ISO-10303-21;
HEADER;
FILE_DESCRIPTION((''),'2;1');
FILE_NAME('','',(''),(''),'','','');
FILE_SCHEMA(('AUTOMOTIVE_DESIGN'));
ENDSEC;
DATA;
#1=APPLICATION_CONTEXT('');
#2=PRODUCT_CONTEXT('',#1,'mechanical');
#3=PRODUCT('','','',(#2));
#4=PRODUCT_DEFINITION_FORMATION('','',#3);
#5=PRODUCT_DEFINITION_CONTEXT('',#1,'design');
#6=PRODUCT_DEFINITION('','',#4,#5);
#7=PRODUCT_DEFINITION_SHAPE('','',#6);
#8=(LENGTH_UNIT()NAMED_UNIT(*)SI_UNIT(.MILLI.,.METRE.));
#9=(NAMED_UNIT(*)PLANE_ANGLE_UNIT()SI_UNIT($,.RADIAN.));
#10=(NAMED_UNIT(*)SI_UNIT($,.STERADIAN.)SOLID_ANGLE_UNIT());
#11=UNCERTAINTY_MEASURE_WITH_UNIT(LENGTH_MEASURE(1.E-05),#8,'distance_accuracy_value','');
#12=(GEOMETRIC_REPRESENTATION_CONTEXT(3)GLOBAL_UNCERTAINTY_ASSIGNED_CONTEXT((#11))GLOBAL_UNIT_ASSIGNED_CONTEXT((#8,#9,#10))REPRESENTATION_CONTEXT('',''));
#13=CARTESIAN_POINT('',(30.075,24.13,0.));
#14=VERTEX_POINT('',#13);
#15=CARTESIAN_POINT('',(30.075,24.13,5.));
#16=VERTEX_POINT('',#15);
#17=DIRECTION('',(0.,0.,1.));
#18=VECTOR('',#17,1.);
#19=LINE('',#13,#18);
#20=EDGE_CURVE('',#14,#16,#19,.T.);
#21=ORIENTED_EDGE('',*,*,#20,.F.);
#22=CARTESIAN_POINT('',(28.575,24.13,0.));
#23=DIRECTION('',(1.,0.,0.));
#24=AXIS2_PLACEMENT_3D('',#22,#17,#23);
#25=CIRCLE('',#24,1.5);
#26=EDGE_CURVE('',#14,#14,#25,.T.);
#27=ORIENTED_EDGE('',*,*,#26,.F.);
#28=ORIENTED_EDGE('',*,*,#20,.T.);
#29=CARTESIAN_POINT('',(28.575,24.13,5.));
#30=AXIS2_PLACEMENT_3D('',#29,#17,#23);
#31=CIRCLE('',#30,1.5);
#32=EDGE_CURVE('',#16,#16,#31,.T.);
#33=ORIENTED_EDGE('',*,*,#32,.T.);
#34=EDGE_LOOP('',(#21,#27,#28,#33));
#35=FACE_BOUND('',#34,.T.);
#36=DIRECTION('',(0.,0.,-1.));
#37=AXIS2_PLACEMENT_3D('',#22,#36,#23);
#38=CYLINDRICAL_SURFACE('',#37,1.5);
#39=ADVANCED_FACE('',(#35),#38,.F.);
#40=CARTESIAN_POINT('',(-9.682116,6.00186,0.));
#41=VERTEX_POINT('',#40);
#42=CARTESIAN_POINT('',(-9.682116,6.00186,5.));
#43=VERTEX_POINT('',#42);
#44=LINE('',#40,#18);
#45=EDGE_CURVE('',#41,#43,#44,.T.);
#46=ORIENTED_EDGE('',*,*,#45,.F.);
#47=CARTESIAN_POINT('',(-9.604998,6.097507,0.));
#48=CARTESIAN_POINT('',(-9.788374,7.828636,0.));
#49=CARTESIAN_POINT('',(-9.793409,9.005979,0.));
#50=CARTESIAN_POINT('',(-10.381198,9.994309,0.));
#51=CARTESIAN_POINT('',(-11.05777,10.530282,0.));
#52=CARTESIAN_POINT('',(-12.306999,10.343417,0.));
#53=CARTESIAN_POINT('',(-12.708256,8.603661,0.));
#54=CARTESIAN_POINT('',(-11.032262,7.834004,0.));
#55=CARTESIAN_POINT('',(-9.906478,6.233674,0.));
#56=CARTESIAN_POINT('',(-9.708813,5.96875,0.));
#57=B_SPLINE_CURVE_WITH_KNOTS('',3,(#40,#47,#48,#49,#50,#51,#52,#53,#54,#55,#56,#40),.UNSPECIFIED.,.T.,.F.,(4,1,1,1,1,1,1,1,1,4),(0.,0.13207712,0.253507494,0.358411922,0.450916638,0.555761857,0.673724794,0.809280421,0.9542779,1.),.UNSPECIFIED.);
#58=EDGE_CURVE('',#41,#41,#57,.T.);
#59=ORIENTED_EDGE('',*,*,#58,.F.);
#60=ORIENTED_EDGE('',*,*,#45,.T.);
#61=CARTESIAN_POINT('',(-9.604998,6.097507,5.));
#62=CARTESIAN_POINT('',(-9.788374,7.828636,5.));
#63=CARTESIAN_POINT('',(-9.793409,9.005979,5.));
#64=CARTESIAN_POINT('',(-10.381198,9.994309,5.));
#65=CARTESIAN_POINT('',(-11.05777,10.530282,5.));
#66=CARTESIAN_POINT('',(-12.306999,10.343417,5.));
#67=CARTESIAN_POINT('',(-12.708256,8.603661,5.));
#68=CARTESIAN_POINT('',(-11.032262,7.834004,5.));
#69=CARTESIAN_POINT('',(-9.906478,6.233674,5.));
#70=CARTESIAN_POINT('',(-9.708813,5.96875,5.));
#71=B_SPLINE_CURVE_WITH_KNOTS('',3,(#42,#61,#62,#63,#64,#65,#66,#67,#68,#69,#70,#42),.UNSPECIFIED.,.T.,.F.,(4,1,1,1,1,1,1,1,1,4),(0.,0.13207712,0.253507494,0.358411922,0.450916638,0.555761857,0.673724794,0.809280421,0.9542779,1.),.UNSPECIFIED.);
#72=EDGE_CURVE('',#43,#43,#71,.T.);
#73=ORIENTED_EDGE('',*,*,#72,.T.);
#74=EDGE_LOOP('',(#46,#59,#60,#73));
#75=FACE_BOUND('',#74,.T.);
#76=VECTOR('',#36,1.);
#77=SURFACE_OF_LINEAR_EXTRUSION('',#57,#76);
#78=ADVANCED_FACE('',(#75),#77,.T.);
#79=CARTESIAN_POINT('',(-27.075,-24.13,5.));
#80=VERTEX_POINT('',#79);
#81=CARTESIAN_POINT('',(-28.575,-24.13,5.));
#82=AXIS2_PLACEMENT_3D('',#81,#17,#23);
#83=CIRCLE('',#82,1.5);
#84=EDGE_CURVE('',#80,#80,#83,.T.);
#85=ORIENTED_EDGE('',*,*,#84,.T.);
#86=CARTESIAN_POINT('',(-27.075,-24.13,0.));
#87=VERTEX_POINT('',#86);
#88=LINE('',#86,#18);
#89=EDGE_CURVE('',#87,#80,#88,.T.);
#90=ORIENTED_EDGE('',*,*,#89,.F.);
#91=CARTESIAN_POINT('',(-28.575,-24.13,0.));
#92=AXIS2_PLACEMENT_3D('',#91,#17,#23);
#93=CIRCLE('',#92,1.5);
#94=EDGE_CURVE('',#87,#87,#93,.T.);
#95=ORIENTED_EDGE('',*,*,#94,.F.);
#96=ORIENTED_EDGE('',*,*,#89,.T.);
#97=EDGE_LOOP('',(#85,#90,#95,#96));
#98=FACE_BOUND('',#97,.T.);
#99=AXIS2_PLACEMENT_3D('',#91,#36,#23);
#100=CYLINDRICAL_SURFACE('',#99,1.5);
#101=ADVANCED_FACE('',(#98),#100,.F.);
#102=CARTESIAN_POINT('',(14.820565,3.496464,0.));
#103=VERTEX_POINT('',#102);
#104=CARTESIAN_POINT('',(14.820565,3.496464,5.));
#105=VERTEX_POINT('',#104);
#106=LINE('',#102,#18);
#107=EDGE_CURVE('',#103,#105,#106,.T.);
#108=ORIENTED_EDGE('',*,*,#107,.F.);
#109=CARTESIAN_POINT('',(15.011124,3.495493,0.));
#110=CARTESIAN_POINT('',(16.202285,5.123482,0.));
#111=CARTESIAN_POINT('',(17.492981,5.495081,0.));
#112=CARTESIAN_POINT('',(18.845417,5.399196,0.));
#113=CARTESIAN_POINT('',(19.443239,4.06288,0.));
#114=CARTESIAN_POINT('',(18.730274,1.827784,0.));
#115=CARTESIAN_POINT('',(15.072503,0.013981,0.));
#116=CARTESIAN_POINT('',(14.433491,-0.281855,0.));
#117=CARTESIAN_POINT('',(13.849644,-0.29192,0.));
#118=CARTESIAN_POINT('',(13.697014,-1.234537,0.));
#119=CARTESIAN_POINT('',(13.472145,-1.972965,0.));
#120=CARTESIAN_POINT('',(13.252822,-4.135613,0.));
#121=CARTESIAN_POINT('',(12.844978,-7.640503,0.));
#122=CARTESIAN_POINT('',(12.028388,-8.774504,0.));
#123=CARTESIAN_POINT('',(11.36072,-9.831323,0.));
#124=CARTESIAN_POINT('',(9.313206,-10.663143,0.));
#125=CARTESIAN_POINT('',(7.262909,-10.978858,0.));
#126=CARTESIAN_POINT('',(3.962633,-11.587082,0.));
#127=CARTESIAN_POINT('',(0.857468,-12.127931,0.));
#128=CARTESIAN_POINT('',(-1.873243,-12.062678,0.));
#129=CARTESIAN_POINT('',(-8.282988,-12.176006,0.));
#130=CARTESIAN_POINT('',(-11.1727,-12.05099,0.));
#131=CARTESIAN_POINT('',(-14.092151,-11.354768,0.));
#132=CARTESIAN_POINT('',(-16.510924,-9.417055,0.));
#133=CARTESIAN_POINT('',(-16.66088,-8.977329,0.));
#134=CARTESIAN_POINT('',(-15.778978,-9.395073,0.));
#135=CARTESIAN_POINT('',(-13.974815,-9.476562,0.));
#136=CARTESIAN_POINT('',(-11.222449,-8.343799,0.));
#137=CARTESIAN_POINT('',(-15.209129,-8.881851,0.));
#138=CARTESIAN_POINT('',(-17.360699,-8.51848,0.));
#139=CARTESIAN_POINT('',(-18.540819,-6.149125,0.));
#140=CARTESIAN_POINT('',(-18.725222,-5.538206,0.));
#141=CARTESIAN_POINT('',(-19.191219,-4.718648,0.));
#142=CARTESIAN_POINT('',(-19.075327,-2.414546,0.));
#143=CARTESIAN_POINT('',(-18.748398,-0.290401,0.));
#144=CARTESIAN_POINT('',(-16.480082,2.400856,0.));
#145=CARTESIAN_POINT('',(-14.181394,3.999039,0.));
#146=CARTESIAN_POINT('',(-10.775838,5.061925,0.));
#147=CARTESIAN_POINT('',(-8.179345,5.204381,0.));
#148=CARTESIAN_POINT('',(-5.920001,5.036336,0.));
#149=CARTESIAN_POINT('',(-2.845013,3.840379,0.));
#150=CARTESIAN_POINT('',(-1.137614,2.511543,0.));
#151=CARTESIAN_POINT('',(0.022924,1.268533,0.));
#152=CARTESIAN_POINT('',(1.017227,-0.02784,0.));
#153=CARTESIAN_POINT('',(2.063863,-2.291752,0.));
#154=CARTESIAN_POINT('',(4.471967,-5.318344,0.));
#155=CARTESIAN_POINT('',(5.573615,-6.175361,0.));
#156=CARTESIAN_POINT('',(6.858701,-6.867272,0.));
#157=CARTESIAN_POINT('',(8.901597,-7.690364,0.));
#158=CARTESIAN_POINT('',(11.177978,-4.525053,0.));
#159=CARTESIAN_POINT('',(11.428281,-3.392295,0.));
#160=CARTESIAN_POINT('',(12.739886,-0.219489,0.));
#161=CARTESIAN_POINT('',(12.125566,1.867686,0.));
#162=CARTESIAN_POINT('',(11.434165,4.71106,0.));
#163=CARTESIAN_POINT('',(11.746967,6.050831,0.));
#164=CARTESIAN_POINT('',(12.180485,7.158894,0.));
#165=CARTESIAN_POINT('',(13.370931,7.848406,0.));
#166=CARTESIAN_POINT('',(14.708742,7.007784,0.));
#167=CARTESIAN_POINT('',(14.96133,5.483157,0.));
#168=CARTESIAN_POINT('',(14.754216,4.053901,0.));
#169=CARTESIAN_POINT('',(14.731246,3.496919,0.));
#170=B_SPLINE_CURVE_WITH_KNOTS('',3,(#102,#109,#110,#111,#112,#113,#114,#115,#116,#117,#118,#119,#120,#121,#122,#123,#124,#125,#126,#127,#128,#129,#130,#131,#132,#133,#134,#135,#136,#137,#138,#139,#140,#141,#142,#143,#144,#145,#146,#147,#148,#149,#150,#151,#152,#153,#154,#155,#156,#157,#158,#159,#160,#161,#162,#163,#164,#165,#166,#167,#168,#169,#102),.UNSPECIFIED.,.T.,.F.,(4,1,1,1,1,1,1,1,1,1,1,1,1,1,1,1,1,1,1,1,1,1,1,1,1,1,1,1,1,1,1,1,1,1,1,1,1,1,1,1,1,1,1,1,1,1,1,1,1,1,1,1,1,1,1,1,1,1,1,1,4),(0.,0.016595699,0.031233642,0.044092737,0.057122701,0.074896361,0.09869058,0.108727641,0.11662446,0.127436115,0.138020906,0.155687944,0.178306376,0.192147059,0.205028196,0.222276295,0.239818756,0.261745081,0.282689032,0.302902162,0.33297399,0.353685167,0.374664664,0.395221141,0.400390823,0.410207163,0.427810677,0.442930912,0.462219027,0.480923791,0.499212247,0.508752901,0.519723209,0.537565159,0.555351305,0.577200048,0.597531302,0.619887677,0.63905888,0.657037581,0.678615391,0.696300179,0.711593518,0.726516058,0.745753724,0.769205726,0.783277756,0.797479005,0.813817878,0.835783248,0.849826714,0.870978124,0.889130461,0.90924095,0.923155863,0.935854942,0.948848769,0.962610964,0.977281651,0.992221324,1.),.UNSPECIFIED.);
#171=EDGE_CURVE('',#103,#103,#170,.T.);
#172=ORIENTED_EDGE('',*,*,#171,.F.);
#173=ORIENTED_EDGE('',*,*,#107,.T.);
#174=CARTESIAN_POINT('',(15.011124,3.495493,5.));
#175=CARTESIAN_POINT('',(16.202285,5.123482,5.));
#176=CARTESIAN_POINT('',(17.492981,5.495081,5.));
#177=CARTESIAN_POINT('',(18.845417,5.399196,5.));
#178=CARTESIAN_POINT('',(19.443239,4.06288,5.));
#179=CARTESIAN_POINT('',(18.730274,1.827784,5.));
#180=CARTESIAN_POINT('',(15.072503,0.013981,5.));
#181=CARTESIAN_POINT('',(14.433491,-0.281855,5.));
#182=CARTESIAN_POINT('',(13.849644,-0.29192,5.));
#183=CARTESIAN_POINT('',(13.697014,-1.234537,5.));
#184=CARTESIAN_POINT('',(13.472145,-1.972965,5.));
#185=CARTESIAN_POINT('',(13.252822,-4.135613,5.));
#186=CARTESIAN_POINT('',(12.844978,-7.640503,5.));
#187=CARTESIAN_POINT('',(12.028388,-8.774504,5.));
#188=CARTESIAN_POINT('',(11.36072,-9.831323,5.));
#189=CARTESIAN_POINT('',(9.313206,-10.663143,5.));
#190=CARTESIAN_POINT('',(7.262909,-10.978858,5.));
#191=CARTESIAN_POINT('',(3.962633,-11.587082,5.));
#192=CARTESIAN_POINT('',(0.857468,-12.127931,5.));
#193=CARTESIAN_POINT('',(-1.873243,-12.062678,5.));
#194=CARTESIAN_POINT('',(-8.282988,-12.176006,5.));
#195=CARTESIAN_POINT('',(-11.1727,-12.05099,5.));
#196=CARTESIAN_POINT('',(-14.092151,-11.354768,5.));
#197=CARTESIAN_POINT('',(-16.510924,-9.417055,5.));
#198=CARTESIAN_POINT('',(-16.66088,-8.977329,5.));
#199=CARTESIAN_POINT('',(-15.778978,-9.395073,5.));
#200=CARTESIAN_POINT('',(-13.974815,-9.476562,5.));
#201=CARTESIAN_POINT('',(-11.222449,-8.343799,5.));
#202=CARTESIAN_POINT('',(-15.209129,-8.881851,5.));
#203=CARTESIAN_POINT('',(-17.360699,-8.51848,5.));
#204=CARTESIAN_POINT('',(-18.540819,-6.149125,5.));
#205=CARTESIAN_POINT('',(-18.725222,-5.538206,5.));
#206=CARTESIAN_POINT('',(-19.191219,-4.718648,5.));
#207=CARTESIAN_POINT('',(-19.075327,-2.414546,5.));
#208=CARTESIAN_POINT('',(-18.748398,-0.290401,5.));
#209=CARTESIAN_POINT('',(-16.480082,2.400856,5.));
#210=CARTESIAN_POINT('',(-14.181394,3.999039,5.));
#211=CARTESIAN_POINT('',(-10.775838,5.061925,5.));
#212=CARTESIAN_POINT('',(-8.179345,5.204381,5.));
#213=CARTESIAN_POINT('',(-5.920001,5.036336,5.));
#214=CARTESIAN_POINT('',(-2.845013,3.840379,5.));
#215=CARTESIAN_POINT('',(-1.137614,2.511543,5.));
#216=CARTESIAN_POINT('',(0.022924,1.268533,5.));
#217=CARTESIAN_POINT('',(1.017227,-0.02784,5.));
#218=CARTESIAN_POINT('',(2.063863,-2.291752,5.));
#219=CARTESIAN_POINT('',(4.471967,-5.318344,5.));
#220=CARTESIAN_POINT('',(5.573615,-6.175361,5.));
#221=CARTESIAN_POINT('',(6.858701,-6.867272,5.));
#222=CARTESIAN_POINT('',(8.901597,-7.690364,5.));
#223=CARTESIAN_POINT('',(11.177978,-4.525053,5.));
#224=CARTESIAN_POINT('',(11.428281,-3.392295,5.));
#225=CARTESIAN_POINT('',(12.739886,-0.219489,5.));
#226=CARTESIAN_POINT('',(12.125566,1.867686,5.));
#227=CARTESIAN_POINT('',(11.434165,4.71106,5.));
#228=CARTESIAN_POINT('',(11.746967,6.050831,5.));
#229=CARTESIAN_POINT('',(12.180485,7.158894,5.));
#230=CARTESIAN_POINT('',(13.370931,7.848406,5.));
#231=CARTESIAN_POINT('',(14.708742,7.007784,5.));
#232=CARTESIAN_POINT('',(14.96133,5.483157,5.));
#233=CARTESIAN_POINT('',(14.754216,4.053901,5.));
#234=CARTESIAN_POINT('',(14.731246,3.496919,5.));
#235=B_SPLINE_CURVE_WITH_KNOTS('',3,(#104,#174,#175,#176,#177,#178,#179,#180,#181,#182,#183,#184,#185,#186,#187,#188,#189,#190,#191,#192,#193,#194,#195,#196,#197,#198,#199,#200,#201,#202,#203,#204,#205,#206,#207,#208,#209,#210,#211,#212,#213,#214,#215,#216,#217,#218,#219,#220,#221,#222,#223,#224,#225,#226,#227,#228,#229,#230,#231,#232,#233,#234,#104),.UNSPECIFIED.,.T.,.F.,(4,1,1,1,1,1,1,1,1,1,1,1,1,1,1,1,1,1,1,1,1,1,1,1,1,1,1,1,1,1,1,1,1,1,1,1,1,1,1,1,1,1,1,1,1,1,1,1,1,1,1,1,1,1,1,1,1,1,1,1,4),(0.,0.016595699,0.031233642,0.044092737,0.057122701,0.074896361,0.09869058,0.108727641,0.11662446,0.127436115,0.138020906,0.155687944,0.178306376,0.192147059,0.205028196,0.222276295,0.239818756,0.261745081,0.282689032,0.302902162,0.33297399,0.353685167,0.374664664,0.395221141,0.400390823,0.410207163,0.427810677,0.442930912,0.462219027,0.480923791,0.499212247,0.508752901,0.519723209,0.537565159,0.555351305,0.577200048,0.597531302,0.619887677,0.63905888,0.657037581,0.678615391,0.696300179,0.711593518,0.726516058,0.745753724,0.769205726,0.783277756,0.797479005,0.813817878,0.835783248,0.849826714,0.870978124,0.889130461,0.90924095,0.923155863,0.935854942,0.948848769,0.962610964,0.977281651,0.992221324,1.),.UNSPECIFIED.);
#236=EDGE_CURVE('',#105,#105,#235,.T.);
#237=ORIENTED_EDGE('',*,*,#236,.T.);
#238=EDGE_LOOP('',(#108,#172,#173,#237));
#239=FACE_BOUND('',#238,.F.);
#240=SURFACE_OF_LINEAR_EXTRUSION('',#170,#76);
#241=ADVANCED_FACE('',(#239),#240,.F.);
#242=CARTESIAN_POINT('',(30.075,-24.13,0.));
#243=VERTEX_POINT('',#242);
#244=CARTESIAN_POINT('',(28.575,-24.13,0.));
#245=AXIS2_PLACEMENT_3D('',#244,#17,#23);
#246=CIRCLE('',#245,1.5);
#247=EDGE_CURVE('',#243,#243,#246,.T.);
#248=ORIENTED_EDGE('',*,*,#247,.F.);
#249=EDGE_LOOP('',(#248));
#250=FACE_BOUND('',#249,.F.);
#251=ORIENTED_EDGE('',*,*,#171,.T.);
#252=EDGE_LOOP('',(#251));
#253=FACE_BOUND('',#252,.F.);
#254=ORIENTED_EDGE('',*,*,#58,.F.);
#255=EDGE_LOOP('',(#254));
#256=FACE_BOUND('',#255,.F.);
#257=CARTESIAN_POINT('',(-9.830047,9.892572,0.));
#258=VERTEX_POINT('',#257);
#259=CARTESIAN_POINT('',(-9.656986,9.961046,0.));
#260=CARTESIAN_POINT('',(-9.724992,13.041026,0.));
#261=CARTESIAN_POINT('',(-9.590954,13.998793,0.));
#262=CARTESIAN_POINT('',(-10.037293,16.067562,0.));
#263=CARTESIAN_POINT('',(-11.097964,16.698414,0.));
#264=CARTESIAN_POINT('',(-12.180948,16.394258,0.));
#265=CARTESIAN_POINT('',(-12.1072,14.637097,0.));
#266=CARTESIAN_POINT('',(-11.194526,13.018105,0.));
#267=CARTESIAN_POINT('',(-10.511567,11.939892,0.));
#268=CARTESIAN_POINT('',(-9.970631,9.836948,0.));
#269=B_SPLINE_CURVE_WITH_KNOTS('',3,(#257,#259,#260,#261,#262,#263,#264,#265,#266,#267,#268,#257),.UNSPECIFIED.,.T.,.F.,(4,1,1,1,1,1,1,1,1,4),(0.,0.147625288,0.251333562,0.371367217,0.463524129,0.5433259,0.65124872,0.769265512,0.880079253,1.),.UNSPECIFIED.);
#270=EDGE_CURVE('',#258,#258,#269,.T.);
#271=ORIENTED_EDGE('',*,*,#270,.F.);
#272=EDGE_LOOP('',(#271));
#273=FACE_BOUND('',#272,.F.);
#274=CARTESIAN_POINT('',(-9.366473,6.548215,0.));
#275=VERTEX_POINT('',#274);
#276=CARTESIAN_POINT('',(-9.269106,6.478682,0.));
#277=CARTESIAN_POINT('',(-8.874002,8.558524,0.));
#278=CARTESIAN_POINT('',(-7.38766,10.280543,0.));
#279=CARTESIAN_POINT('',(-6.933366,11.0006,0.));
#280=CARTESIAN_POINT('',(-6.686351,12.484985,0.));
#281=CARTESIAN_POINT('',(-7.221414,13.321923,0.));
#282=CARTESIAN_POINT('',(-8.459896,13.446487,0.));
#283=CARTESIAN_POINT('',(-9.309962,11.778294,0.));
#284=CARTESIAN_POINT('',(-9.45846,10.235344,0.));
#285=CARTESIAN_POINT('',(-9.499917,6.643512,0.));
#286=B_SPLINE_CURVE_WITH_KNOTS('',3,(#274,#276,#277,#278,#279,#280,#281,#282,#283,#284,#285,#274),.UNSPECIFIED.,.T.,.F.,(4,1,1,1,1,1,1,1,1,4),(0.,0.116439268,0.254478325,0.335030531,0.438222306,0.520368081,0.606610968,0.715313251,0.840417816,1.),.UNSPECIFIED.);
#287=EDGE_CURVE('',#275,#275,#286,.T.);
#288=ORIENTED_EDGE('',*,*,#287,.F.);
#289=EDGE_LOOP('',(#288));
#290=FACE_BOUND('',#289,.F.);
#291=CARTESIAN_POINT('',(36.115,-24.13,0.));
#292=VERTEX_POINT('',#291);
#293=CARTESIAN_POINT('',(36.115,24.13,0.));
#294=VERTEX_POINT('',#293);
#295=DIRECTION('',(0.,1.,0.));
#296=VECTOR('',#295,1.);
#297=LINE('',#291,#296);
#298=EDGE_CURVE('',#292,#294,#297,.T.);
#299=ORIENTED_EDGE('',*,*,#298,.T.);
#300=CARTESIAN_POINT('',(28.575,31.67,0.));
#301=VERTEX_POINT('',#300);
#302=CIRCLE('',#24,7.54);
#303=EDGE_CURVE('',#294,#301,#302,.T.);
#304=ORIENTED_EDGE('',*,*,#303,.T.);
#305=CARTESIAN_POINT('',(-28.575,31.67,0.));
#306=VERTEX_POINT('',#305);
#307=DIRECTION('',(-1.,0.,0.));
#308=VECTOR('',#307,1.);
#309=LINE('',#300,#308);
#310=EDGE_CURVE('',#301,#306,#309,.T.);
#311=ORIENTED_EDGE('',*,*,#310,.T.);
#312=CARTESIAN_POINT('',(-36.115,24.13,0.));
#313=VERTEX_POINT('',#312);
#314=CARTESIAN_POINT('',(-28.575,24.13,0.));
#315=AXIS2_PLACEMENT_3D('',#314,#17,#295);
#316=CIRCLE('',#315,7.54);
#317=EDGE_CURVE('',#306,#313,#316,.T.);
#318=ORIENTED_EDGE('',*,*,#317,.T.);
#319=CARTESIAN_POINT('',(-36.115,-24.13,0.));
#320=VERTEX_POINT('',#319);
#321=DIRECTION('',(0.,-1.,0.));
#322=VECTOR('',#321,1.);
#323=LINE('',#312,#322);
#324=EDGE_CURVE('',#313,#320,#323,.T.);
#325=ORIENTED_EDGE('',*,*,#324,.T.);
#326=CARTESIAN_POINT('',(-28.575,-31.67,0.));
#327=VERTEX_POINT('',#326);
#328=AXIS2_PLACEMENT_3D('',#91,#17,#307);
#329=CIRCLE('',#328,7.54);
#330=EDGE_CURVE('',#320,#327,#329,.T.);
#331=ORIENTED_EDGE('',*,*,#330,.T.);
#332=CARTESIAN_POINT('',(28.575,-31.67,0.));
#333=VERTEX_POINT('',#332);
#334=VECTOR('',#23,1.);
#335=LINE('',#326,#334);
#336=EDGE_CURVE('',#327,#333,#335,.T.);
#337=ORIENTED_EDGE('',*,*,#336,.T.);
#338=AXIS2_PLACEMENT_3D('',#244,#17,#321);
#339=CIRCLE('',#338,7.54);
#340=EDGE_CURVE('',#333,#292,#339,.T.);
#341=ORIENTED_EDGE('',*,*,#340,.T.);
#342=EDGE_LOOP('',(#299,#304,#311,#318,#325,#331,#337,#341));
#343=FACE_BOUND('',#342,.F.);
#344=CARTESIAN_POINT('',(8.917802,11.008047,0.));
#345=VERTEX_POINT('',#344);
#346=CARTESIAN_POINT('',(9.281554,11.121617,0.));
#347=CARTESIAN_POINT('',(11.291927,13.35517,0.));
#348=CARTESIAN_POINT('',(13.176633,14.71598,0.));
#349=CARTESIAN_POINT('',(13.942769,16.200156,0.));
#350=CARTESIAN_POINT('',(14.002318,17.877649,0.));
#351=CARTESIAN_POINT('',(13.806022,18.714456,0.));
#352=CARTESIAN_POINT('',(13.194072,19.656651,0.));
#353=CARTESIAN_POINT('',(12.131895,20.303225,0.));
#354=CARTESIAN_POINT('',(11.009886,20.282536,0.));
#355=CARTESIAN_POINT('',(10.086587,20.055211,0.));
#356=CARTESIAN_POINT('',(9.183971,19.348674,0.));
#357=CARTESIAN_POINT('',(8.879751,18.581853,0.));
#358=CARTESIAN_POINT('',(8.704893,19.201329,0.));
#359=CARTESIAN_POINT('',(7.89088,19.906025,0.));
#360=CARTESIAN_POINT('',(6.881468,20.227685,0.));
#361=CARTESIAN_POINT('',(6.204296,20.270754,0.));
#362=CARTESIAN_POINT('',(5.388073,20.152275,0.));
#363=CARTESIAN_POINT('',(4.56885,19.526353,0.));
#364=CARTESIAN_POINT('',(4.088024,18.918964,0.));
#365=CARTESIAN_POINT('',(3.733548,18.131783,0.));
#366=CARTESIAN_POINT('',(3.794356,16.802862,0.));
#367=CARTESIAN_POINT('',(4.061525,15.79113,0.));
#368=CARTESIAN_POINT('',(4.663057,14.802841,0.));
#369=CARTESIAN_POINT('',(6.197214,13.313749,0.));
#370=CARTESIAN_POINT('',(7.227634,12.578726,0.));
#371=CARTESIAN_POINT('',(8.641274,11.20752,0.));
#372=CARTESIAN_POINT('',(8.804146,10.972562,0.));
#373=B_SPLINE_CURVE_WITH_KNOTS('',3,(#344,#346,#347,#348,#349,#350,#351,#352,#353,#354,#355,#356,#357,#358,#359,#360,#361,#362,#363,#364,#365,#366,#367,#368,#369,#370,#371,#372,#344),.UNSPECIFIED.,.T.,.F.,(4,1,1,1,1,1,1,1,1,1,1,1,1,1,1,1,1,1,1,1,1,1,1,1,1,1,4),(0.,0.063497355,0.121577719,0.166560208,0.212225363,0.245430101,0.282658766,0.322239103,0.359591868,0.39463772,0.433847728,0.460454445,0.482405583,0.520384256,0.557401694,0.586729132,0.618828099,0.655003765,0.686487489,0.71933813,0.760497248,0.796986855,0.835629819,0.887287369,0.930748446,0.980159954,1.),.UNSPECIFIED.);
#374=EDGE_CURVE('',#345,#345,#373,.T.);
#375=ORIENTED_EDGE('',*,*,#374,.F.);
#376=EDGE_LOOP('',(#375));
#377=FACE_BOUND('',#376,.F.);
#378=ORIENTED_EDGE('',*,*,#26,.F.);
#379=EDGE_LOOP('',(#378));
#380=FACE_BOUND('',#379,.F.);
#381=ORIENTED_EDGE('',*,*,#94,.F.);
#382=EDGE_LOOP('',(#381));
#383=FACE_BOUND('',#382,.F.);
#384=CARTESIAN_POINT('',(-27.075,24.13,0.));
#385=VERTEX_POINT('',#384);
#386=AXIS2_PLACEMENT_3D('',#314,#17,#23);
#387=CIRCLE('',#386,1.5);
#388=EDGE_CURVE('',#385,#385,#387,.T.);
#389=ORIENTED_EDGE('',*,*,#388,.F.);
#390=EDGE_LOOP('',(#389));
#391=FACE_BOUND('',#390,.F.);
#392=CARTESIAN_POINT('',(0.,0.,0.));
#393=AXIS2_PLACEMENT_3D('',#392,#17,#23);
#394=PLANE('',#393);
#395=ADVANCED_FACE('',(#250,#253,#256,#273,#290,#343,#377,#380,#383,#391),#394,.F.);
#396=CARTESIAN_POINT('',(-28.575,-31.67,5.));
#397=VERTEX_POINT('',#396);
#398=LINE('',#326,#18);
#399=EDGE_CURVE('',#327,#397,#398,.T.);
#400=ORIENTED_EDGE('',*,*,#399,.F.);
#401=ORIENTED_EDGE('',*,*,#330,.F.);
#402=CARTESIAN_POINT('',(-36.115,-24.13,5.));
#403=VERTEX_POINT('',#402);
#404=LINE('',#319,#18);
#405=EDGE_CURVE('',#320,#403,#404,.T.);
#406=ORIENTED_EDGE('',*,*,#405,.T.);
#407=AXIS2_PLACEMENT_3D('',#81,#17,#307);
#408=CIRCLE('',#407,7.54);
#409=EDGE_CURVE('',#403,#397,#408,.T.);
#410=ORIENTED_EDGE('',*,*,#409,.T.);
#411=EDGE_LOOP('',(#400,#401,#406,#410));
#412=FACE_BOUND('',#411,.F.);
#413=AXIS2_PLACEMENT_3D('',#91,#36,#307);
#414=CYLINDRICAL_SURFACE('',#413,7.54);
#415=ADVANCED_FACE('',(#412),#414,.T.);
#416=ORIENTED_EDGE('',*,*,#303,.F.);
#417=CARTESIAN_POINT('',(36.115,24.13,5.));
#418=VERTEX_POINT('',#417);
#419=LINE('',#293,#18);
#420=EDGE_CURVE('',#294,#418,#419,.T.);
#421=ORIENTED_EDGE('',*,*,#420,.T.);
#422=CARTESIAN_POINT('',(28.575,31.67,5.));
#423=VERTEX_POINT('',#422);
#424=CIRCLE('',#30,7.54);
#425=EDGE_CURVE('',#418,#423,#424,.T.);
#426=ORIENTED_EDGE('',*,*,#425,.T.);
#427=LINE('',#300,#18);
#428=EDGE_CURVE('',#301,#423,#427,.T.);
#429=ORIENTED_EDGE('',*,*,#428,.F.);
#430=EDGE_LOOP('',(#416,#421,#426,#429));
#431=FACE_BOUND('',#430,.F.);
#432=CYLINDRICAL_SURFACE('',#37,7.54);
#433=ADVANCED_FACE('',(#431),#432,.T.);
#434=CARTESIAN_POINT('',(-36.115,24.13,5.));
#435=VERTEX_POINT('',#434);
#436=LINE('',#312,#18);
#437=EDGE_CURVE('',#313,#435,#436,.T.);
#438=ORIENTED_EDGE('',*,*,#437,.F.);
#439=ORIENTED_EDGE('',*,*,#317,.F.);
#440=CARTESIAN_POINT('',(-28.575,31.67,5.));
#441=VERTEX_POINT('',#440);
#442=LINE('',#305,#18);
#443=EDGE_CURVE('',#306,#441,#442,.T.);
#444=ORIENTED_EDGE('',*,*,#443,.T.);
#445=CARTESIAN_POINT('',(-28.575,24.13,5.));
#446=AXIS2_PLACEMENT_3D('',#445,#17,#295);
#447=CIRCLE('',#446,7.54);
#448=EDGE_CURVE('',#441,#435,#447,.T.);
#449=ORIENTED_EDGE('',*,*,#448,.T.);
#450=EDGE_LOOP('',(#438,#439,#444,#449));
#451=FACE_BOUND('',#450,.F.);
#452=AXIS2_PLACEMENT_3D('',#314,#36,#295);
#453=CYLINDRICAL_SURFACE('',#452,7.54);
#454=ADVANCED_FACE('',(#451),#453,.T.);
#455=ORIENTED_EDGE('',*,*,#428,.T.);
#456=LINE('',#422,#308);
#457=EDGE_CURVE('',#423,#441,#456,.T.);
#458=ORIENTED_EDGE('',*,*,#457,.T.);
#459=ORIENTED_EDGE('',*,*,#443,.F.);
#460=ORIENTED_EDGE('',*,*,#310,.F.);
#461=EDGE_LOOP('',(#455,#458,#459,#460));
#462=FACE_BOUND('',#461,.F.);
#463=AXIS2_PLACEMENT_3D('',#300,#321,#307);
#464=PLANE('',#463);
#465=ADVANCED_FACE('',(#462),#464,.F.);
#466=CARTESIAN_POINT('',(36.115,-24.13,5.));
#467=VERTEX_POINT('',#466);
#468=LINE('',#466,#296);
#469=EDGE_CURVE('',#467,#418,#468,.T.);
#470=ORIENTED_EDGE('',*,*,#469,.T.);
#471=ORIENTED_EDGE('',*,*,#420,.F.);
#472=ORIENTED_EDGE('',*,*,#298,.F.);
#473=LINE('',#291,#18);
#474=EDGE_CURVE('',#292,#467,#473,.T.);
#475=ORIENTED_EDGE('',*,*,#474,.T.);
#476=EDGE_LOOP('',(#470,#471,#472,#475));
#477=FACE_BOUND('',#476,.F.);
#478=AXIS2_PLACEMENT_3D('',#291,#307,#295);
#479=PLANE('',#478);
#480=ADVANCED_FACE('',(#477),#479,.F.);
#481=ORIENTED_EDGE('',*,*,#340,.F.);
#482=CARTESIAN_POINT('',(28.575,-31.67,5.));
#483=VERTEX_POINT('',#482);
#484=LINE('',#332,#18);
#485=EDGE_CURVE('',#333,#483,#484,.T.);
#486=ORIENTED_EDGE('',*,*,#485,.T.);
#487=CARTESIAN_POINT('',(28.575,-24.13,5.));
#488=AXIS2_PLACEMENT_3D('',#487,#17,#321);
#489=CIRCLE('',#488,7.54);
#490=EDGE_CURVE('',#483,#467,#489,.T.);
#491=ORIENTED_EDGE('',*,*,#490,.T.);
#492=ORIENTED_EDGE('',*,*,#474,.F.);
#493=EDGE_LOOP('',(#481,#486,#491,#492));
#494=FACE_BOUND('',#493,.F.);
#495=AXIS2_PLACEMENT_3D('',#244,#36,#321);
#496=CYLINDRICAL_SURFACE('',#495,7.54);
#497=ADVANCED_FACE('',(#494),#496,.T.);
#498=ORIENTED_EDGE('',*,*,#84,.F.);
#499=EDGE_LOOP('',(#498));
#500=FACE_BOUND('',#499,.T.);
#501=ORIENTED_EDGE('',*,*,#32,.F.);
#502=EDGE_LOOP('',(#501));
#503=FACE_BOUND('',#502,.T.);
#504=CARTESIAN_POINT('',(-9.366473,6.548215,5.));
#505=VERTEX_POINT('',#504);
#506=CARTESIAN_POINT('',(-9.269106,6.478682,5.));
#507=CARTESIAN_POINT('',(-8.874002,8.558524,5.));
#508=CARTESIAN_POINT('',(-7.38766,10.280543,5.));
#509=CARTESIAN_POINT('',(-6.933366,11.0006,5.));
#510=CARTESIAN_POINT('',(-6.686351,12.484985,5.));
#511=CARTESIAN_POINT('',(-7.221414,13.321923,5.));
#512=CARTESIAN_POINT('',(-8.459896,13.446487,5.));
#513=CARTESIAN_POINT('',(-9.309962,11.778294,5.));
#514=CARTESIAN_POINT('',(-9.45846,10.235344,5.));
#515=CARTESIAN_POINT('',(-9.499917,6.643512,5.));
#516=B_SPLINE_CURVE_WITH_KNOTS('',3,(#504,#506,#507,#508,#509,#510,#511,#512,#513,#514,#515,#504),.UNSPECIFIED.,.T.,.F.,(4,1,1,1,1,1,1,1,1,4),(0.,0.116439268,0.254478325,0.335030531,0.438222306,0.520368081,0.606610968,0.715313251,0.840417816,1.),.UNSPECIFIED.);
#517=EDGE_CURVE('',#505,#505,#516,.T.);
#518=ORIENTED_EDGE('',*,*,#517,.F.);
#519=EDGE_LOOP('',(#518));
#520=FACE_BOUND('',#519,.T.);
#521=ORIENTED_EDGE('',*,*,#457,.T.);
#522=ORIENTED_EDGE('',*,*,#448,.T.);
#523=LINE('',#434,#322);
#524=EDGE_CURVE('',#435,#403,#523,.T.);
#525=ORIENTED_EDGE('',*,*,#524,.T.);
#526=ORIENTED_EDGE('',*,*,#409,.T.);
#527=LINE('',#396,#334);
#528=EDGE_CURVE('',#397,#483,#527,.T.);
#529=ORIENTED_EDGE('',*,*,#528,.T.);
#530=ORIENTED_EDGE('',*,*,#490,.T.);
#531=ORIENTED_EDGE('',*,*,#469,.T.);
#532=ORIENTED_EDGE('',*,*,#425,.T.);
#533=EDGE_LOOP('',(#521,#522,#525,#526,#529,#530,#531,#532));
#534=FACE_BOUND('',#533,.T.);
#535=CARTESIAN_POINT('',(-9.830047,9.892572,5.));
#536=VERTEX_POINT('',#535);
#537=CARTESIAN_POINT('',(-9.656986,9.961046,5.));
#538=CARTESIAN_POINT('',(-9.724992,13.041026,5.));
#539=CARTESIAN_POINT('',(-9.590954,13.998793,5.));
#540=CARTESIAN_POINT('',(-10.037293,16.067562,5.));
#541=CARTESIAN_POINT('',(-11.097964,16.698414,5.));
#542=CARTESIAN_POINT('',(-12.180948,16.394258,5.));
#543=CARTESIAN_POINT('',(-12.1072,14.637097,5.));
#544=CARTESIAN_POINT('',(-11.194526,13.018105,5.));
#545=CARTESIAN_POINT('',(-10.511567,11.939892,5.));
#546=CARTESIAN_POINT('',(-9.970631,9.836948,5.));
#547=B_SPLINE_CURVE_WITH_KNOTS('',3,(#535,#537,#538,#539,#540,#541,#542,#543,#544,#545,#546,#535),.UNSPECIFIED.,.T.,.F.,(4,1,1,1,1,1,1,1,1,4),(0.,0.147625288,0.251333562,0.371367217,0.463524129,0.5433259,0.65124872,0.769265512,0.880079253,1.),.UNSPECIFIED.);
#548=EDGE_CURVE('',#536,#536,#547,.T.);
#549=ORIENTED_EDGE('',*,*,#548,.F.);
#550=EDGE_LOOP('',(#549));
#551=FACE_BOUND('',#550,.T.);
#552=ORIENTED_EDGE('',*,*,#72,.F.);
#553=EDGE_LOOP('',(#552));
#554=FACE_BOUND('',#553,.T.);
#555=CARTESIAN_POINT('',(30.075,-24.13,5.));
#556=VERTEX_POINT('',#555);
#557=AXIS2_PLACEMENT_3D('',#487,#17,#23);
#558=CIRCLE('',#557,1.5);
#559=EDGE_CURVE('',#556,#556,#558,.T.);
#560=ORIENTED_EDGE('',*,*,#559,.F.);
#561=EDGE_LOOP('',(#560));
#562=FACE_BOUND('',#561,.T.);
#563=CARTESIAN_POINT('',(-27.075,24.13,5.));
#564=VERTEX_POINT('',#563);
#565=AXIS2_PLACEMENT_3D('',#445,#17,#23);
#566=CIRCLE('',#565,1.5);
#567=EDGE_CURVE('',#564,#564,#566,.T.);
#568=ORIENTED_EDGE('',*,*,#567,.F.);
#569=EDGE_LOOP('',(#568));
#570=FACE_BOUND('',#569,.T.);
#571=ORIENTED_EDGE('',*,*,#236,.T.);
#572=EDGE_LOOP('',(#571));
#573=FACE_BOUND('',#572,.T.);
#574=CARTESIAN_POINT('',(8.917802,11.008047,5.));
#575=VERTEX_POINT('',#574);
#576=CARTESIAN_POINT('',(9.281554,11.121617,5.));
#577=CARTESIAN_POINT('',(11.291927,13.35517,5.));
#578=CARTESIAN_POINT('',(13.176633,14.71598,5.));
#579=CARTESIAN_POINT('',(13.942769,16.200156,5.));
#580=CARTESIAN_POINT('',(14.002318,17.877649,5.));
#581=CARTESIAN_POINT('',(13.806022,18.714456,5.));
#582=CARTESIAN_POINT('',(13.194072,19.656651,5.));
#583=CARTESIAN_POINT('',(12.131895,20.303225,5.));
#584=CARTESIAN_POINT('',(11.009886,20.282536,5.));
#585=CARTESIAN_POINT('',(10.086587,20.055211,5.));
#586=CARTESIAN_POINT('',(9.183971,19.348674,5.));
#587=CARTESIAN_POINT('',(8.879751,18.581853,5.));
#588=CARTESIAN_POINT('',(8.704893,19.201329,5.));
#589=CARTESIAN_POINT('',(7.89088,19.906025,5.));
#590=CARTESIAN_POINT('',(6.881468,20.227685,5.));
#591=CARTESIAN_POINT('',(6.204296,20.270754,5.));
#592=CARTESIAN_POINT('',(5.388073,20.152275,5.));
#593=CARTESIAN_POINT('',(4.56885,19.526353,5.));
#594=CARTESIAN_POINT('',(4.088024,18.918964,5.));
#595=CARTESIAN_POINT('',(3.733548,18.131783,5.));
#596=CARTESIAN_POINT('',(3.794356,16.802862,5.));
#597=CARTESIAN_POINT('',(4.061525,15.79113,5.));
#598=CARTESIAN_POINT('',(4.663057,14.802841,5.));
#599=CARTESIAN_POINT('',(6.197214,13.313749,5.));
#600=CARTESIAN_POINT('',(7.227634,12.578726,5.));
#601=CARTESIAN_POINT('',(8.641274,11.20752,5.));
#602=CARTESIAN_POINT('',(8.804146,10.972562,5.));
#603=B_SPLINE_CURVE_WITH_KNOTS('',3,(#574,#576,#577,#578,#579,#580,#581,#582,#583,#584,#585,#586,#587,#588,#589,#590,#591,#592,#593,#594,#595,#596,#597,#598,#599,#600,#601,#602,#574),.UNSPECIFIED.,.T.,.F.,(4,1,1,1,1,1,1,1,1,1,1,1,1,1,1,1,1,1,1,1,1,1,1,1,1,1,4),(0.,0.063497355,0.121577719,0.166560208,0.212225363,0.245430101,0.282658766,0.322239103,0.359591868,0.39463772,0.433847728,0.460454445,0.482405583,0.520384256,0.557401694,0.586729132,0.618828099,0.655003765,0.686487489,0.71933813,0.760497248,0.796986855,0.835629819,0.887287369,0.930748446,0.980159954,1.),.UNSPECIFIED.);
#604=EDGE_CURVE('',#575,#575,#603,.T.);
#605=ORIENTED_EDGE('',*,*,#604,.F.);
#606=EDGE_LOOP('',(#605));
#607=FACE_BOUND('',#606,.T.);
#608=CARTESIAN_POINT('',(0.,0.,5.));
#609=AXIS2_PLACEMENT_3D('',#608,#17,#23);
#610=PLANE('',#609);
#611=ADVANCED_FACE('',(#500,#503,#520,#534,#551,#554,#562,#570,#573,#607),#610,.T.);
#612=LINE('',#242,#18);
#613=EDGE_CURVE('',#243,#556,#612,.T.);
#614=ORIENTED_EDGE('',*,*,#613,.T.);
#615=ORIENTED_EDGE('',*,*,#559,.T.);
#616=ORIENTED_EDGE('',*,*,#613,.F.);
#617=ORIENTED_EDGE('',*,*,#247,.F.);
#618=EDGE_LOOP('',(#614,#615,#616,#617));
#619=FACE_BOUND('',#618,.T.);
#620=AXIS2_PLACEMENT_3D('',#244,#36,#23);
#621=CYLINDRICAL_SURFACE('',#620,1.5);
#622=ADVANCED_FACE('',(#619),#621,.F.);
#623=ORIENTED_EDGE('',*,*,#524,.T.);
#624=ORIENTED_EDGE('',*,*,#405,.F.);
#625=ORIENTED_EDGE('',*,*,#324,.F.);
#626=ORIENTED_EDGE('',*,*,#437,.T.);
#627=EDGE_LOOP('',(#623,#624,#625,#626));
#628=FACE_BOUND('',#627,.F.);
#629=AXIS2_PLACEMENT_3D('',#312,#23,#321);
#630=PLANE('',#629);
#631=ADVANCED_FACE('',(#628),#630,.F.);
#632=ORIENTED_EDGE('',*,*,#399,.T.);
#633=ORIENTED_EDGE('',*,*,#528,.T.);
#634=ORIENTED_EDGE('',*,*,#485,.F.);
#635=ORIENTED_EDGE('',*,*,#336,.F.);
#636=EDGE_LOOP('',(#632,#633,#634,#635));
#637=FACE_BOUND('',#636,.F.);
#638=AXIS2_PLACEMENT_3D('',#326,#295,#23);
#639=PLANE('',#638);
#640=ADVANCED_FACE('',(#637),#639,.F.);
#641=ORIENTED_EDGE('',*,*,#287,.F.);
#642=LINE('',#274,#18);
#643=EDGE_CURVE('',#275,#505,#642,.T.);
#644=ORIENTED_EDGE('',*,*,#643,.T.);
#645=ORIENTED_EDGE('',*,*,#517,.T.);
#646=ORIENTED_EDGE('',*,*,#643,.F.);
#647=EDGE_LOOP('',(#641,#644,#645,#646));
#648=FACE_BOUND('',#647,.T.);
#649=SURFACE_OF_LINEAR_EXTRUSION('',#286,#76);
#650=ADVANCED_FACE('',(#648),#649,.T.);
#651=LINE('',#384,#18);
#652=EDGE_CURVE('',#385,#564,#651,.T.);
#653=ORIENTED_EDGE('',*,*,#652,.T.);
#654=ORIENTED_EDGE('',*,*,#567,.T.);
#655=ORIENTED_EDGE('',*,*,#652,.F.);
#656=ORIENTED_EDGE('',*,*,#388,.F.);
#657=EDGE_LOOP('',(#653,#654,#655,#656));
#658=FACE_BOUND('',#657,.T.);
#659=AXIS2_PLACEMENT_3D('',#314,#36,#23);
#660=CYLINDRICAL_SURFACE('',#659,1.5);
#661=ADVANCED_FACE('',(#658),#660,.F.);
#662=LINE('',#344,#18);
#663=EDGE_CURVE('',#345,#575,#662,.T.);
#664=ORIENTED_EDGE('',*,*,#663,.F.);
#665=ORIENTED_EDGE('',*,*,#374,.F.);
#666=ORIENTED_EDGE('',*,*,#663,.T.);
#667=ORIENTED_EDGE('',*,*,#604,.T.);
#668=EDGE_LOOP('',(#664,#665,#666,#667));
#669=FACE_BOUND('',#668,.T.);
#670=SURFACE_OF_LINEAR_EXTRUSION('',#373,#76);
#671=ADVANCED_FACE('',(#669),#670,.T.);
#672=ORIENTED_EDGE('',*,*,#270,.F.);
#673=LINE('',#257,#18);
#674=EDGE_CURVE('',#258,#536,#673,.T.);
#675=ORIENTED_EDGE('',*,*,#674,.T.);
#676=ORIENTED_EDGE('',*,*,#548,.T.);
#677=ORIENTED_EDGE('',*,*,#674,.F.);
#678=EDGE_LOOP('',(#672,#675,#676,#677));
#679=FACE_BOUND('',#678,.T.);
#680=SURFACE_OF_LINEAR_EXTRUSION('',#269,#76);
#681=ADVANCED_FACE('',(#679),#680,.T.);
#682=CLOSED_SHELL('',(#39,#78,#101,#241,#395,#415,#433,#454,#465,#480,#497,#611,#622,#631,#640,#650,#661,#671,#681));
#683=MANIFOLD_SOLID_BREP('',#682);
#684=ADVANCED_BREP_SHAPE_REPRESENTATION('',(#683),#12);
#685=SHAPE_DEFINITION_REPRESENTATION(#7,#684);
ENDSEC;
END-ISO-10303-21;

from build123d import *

# Parameters (mm, degrees)
F0_R     = 1.5
F1_DEPTH = 5


with BuildPart() as f1:
    # F0 (on Top) → F1 (new body)
    with BuildSketch(Plane.XY):
        with BuildLine():
            ThreePointArc((36.115, 24.13), (33.9065851301, 29.4615851301), (28.575, 31.67))
            Line((28.575, 31.67), (-28.575, 31.67))
            ThreePointArc((-28.575, 31.67), (-33.9065851301, 29.4615851301), (-36.115, 24.13))
            Line((-36.115, 24.13), (-36.115, -24.13))
            ThreePointArc((-36.115, -24.13), (-33.9065851301, -29.4615851301), (-28.575, -31.67))
            Line((-28.575, -31.67), (28.575, -31.67))
            ThreePointArc((28.575, -31.67), (33.9065851301, -29.4615851301), (36.115, -24.13))
            Line((36.115, -24.13), (36.115, 24.13))
        make_face()
        with Locations((-28.575, -24.13)):
            Circle(F0_R, mode=Mode.SUBTRACT)
        with Locations((28.575, -24.13)):
            Circle(F0_R, mode=Mode.SUBTRACT)
        with BuildLine():
            add(Edge.make_bspline(
                [(14.8205645382, 3.4964636434), (15.0111235326, 3.4954925386), (16.2022852329, 5.1234824061), (17.4929807562, 5.4950806784), (18.8454166411, 5.3991958096), (19.4432393697, 4.0628795348), (18.7302741407, 1.8277842362), (15.0725032017, 0.0139814857), (14.433491278, -0.2818551042), (13.8496444002, -0.2919203854), (13.6970136266, -1.234536682), (13.4721448563, -1.9729645811), (13.2528219301, -4.1356126261), (12.8449783803, -7.6405033691), (12.0283884116, -8.7745043473), (11.3607199065, -9.8313232539), (9.3132059602, -10.6631426145), (7.2629087769, -10.978857608), (3.962633491, -11.587081634), (0.8574678298, -12.1279307424), (-1.8732434409, -12.0626781489), (-8.2829883349, -12.1760061513), (-11.1727004159, -12.0509902479), (-14.092150809, -11.354767563), (-16.5109241135, -9.4170552917), (-16.6608797689, -8.9773292774), (-15.7789779675, -9.3950733004), (-13.9748145874, -9.4765620603), (-11.2224494684, -8.3437994176), (-15.2091286436, -8.8818514931), (-17.3606989941, -8.5184799906), (-18.5408191776, -6.1491245802), (-18.7252219763, -5.5382057916), (-19.1912194122, -4.7186481843), (-19.0753272637, -2.4145456179), (-18.7483976689, -0.2904011246), (-16.480082031, 2.4008557232), (-14.1813943941, 3.9990388199), (-10.7758382761, 5.061925323), (-8.1793450388, 5.2043812834), (-5.9200014754, 5.0363364679), (-2.845013492, 3.8403794863), (-1.1376139091, 2.511543266), (0.0229243331, 1.2685330016), (1.0172272338, -0.0278395795), (2.0638625095, -2.2917524529), (4.4719673466, -5.3183439354), (5.573615151, -6.1753612295), (6.8587014309, -6.8672720891), (8.9015967774, -7.6903642072), (11.177977526, -4.5250533014), (11.4282806938, -3.3922952148), (12.7398857924, -0.2194887196), (12.1255659294, 1.8676864261), (11.434164511, 4.711060184), (11.7469673948, 6.05083066), (12.1804849503, 7.1588939197), (13.3709311078, 7.8484055197), (14.7087415878, 7.007783825), (14.9613302433, 5.483157465), (14.754216132, 4.0539006895), (14.7312464116, 3.4969188161), (14.8205645382, 3.4964636434)],
                knots=[0, 0, 0, 0, 0.016595699, 0.0312336424, 0.044092737, 0.0571227007, 0.0748963611, 0.0986905803, 0.1087276408, 0.1166244596, 0.1274361145, 0.1380209061, 0.155687944, 0.178306376, 0.1921470589, 0.2050281955, 0.2222762946, 0.2398187555, 0.2617450805, 0.2826890318, 0.3029021619, 0.3329739902, 0.3536851666, 0.3746646644, 0.3952211413, 0.4003908227, 0.4102071632, 0.4278106772, 0.4429309125, 0.4622190267, 0.4809237909, 0.499212247, 0.5087529006, 0.5197232088, 0.5375651588, 0.555351305, 0.5772000482, 0.5975313021, 0.6198876769, 0.6390588799, 0.6570375813, 0.6786153914, 0.6963001786, 0.7115935185, 0.726516058, 0.7457537239, 0.7692057256, 0.7832777559, 0.7974790049, 0.8138178784, 0.8357832478, 0.8498267135, 0.8709781241, 0.8891304606, 0.9092409495, 0.9231558628, 0.9358549421, 0.9488487694, 0.9626109641, 0.9772816508, 0.9922213237, 1, 1, 1, 1], degree=3))
        make_face(mode=Mode.SUBTRACT)
        with BuildLine():
            add(Edge.make_bspline(
                [(-9.6821160987, 6.001860369), (-9.604998335, 6.0975070245), (-9.7883742017, 7.8286357661), (-9.7934093579, 9.0059788498), (-10.3811981936, 9.9943093776), (-11.0577702569, 10.5302823139), (-12.3069993864, 10.3434165346), (-12.7082559518, 8.6036613658), (-11.032262301, 7.8340038341), (-9.9064782703, 6.2336741984), (-9.7088125176, 5.9687496685), (-9.6821160987, 6.001860369)],
                knots=[0, 0, 0, 0, 0.1320771199, 0.253507494, 0.3584119224, 0.4509166382, 0.5557618567, 0.6737247942, 0.8092804208, 0.9542778999, 1, 1, 1, 1], degree=3))
        make_face(mode=Mode.SUBTRACT)
        with BuildLine():
            add(Edge.make_bspline(
                [(-9.8300473765, 9.8925717175), (-9.6569855607, 9.9610462297), (-9.7249916075, 13.0410261844), (-9.590953721, 13.9987928756), (-10.0372934483, 16.0675615383), (-11.0979644824, 16.6984138925), (-12.1809479897, 16.3942575696), (-12.1072004593, 14.637096776), (-11.1945255983, 13.0181051393), (-10.5115665267, 11.939892257), (-9.9706310292, 9.8369476794), (-9.8300473765, 9.8925717175)],
                knots=[0, 0, 0, 0, 0.1476252875, 0.2513335617, 0.371367217, 0.4635241291, 0.5433259, 0.6512487196, 0.7692655123, 0.8800792534, 1, 1, 1, 1], degree=3))
        make_face(mode=Mode.SUBTRACT)
        with BuildLine():
            add(Edge.make_bspline(
                [(-9.366473183, 6.5482151695), (-9.2691057213, 6.4786818417), (-8.8740022714, 8.5585237019), (-7.3876597588, 10.2805431453), (-6.9333663047, 11.0005995705), (-6.6863506201, 12.4849851642), (-7.2214143147, 13.321922876), (-8.4598957794, 13.4464866482), (-9.3099623647, 11.778294454), (-9.4584603184, 10.23534356), (-9.4999171008, 6.6435118887), (-9.366473183, 6.5482151695)],
                knots=[0, 0, 0, 0, 0.1164392685, 0.2544783245, 0.3350305307, 0.4382223065, 0.5203680811, 0.6066109681, 0.7153132513, 0.8404178162, 1, 1, 1, 1], degree=3))
        make_face(mode=Mode.SUBTRACT)
        with Locations((-28.575, 24.13)):
            Circle(F0_R, mode=Mode.SUBTRACT)
        with BuildLine():
            add(Edge.make_bspline(
                [(8.9178020135, 11.0080474988), (9.2815538087, 11.1216169245), (11.2919270904, 13.3551696916), (13.1766329055, 14.7159798615), (13.9427686162, 16.2001562568), (14.0023176424, 17.8776490186), (13.8060222991, 18.7144557366), (13.194071778, 19.6566511671), (12.1318953794, 20.3032252502), (11.0098855208, 20.282536056), (10.0865873997, 20.0552112237), (9.1839710135, 19.3486743313), (8.8797514307, 18.5818526113), (8.7048930989, 19.2013294845), (7.8908795449, 19.9060252028), (6.8814677359, 20.2276846931), (6.2042964155, 20.2707536949), (5.3880727689, 20.1522750844), (4.5688497642, 19.5263530225), (4.0880238333, 18.9189639401), (3.7335482814, 18.1317830992), (3.7943559956, 16.8028615938), (4.0615251109, 15.7911295604), (4.6630570437, 14.8028411196), (6.1972144589, 13.3137491584), (7.2276340164, 12.5787256526), (8.6412742341, 11.207519803), (8.8041460584, 10.9725621989), (8.9178020135, 11.0080474988)],
                knots=[0, 0, 0, 0, 0.0634973548, 0.1215777193, 0.1665602077, 0.2122253629, 0.2454301014, 0.2826587659, 0.3222391026, 0.3595918678, 0.3946377203, 0.4338477284, 0.4604544453, 0.4824055827, 0.5203842557, 0.5574016943, 0.5867291321, 0.618828099, 0.6550037653, 0.6864874889, 0.7193381299, 0.7604972475, 0.7969868553, 0.8356298186, 0.8872873689, 0.9307484459, 0.9801599536, 1, 1, 1, 1], degree=3))
        make_face(mode=Mode.SUBTRACT)
        with Locations((28.575, 24.13)):
            Circle(F0_R, mode=Mode.SUBTRACT)
    extrude(amount=F1_DEPTH)


solid = f1.part
